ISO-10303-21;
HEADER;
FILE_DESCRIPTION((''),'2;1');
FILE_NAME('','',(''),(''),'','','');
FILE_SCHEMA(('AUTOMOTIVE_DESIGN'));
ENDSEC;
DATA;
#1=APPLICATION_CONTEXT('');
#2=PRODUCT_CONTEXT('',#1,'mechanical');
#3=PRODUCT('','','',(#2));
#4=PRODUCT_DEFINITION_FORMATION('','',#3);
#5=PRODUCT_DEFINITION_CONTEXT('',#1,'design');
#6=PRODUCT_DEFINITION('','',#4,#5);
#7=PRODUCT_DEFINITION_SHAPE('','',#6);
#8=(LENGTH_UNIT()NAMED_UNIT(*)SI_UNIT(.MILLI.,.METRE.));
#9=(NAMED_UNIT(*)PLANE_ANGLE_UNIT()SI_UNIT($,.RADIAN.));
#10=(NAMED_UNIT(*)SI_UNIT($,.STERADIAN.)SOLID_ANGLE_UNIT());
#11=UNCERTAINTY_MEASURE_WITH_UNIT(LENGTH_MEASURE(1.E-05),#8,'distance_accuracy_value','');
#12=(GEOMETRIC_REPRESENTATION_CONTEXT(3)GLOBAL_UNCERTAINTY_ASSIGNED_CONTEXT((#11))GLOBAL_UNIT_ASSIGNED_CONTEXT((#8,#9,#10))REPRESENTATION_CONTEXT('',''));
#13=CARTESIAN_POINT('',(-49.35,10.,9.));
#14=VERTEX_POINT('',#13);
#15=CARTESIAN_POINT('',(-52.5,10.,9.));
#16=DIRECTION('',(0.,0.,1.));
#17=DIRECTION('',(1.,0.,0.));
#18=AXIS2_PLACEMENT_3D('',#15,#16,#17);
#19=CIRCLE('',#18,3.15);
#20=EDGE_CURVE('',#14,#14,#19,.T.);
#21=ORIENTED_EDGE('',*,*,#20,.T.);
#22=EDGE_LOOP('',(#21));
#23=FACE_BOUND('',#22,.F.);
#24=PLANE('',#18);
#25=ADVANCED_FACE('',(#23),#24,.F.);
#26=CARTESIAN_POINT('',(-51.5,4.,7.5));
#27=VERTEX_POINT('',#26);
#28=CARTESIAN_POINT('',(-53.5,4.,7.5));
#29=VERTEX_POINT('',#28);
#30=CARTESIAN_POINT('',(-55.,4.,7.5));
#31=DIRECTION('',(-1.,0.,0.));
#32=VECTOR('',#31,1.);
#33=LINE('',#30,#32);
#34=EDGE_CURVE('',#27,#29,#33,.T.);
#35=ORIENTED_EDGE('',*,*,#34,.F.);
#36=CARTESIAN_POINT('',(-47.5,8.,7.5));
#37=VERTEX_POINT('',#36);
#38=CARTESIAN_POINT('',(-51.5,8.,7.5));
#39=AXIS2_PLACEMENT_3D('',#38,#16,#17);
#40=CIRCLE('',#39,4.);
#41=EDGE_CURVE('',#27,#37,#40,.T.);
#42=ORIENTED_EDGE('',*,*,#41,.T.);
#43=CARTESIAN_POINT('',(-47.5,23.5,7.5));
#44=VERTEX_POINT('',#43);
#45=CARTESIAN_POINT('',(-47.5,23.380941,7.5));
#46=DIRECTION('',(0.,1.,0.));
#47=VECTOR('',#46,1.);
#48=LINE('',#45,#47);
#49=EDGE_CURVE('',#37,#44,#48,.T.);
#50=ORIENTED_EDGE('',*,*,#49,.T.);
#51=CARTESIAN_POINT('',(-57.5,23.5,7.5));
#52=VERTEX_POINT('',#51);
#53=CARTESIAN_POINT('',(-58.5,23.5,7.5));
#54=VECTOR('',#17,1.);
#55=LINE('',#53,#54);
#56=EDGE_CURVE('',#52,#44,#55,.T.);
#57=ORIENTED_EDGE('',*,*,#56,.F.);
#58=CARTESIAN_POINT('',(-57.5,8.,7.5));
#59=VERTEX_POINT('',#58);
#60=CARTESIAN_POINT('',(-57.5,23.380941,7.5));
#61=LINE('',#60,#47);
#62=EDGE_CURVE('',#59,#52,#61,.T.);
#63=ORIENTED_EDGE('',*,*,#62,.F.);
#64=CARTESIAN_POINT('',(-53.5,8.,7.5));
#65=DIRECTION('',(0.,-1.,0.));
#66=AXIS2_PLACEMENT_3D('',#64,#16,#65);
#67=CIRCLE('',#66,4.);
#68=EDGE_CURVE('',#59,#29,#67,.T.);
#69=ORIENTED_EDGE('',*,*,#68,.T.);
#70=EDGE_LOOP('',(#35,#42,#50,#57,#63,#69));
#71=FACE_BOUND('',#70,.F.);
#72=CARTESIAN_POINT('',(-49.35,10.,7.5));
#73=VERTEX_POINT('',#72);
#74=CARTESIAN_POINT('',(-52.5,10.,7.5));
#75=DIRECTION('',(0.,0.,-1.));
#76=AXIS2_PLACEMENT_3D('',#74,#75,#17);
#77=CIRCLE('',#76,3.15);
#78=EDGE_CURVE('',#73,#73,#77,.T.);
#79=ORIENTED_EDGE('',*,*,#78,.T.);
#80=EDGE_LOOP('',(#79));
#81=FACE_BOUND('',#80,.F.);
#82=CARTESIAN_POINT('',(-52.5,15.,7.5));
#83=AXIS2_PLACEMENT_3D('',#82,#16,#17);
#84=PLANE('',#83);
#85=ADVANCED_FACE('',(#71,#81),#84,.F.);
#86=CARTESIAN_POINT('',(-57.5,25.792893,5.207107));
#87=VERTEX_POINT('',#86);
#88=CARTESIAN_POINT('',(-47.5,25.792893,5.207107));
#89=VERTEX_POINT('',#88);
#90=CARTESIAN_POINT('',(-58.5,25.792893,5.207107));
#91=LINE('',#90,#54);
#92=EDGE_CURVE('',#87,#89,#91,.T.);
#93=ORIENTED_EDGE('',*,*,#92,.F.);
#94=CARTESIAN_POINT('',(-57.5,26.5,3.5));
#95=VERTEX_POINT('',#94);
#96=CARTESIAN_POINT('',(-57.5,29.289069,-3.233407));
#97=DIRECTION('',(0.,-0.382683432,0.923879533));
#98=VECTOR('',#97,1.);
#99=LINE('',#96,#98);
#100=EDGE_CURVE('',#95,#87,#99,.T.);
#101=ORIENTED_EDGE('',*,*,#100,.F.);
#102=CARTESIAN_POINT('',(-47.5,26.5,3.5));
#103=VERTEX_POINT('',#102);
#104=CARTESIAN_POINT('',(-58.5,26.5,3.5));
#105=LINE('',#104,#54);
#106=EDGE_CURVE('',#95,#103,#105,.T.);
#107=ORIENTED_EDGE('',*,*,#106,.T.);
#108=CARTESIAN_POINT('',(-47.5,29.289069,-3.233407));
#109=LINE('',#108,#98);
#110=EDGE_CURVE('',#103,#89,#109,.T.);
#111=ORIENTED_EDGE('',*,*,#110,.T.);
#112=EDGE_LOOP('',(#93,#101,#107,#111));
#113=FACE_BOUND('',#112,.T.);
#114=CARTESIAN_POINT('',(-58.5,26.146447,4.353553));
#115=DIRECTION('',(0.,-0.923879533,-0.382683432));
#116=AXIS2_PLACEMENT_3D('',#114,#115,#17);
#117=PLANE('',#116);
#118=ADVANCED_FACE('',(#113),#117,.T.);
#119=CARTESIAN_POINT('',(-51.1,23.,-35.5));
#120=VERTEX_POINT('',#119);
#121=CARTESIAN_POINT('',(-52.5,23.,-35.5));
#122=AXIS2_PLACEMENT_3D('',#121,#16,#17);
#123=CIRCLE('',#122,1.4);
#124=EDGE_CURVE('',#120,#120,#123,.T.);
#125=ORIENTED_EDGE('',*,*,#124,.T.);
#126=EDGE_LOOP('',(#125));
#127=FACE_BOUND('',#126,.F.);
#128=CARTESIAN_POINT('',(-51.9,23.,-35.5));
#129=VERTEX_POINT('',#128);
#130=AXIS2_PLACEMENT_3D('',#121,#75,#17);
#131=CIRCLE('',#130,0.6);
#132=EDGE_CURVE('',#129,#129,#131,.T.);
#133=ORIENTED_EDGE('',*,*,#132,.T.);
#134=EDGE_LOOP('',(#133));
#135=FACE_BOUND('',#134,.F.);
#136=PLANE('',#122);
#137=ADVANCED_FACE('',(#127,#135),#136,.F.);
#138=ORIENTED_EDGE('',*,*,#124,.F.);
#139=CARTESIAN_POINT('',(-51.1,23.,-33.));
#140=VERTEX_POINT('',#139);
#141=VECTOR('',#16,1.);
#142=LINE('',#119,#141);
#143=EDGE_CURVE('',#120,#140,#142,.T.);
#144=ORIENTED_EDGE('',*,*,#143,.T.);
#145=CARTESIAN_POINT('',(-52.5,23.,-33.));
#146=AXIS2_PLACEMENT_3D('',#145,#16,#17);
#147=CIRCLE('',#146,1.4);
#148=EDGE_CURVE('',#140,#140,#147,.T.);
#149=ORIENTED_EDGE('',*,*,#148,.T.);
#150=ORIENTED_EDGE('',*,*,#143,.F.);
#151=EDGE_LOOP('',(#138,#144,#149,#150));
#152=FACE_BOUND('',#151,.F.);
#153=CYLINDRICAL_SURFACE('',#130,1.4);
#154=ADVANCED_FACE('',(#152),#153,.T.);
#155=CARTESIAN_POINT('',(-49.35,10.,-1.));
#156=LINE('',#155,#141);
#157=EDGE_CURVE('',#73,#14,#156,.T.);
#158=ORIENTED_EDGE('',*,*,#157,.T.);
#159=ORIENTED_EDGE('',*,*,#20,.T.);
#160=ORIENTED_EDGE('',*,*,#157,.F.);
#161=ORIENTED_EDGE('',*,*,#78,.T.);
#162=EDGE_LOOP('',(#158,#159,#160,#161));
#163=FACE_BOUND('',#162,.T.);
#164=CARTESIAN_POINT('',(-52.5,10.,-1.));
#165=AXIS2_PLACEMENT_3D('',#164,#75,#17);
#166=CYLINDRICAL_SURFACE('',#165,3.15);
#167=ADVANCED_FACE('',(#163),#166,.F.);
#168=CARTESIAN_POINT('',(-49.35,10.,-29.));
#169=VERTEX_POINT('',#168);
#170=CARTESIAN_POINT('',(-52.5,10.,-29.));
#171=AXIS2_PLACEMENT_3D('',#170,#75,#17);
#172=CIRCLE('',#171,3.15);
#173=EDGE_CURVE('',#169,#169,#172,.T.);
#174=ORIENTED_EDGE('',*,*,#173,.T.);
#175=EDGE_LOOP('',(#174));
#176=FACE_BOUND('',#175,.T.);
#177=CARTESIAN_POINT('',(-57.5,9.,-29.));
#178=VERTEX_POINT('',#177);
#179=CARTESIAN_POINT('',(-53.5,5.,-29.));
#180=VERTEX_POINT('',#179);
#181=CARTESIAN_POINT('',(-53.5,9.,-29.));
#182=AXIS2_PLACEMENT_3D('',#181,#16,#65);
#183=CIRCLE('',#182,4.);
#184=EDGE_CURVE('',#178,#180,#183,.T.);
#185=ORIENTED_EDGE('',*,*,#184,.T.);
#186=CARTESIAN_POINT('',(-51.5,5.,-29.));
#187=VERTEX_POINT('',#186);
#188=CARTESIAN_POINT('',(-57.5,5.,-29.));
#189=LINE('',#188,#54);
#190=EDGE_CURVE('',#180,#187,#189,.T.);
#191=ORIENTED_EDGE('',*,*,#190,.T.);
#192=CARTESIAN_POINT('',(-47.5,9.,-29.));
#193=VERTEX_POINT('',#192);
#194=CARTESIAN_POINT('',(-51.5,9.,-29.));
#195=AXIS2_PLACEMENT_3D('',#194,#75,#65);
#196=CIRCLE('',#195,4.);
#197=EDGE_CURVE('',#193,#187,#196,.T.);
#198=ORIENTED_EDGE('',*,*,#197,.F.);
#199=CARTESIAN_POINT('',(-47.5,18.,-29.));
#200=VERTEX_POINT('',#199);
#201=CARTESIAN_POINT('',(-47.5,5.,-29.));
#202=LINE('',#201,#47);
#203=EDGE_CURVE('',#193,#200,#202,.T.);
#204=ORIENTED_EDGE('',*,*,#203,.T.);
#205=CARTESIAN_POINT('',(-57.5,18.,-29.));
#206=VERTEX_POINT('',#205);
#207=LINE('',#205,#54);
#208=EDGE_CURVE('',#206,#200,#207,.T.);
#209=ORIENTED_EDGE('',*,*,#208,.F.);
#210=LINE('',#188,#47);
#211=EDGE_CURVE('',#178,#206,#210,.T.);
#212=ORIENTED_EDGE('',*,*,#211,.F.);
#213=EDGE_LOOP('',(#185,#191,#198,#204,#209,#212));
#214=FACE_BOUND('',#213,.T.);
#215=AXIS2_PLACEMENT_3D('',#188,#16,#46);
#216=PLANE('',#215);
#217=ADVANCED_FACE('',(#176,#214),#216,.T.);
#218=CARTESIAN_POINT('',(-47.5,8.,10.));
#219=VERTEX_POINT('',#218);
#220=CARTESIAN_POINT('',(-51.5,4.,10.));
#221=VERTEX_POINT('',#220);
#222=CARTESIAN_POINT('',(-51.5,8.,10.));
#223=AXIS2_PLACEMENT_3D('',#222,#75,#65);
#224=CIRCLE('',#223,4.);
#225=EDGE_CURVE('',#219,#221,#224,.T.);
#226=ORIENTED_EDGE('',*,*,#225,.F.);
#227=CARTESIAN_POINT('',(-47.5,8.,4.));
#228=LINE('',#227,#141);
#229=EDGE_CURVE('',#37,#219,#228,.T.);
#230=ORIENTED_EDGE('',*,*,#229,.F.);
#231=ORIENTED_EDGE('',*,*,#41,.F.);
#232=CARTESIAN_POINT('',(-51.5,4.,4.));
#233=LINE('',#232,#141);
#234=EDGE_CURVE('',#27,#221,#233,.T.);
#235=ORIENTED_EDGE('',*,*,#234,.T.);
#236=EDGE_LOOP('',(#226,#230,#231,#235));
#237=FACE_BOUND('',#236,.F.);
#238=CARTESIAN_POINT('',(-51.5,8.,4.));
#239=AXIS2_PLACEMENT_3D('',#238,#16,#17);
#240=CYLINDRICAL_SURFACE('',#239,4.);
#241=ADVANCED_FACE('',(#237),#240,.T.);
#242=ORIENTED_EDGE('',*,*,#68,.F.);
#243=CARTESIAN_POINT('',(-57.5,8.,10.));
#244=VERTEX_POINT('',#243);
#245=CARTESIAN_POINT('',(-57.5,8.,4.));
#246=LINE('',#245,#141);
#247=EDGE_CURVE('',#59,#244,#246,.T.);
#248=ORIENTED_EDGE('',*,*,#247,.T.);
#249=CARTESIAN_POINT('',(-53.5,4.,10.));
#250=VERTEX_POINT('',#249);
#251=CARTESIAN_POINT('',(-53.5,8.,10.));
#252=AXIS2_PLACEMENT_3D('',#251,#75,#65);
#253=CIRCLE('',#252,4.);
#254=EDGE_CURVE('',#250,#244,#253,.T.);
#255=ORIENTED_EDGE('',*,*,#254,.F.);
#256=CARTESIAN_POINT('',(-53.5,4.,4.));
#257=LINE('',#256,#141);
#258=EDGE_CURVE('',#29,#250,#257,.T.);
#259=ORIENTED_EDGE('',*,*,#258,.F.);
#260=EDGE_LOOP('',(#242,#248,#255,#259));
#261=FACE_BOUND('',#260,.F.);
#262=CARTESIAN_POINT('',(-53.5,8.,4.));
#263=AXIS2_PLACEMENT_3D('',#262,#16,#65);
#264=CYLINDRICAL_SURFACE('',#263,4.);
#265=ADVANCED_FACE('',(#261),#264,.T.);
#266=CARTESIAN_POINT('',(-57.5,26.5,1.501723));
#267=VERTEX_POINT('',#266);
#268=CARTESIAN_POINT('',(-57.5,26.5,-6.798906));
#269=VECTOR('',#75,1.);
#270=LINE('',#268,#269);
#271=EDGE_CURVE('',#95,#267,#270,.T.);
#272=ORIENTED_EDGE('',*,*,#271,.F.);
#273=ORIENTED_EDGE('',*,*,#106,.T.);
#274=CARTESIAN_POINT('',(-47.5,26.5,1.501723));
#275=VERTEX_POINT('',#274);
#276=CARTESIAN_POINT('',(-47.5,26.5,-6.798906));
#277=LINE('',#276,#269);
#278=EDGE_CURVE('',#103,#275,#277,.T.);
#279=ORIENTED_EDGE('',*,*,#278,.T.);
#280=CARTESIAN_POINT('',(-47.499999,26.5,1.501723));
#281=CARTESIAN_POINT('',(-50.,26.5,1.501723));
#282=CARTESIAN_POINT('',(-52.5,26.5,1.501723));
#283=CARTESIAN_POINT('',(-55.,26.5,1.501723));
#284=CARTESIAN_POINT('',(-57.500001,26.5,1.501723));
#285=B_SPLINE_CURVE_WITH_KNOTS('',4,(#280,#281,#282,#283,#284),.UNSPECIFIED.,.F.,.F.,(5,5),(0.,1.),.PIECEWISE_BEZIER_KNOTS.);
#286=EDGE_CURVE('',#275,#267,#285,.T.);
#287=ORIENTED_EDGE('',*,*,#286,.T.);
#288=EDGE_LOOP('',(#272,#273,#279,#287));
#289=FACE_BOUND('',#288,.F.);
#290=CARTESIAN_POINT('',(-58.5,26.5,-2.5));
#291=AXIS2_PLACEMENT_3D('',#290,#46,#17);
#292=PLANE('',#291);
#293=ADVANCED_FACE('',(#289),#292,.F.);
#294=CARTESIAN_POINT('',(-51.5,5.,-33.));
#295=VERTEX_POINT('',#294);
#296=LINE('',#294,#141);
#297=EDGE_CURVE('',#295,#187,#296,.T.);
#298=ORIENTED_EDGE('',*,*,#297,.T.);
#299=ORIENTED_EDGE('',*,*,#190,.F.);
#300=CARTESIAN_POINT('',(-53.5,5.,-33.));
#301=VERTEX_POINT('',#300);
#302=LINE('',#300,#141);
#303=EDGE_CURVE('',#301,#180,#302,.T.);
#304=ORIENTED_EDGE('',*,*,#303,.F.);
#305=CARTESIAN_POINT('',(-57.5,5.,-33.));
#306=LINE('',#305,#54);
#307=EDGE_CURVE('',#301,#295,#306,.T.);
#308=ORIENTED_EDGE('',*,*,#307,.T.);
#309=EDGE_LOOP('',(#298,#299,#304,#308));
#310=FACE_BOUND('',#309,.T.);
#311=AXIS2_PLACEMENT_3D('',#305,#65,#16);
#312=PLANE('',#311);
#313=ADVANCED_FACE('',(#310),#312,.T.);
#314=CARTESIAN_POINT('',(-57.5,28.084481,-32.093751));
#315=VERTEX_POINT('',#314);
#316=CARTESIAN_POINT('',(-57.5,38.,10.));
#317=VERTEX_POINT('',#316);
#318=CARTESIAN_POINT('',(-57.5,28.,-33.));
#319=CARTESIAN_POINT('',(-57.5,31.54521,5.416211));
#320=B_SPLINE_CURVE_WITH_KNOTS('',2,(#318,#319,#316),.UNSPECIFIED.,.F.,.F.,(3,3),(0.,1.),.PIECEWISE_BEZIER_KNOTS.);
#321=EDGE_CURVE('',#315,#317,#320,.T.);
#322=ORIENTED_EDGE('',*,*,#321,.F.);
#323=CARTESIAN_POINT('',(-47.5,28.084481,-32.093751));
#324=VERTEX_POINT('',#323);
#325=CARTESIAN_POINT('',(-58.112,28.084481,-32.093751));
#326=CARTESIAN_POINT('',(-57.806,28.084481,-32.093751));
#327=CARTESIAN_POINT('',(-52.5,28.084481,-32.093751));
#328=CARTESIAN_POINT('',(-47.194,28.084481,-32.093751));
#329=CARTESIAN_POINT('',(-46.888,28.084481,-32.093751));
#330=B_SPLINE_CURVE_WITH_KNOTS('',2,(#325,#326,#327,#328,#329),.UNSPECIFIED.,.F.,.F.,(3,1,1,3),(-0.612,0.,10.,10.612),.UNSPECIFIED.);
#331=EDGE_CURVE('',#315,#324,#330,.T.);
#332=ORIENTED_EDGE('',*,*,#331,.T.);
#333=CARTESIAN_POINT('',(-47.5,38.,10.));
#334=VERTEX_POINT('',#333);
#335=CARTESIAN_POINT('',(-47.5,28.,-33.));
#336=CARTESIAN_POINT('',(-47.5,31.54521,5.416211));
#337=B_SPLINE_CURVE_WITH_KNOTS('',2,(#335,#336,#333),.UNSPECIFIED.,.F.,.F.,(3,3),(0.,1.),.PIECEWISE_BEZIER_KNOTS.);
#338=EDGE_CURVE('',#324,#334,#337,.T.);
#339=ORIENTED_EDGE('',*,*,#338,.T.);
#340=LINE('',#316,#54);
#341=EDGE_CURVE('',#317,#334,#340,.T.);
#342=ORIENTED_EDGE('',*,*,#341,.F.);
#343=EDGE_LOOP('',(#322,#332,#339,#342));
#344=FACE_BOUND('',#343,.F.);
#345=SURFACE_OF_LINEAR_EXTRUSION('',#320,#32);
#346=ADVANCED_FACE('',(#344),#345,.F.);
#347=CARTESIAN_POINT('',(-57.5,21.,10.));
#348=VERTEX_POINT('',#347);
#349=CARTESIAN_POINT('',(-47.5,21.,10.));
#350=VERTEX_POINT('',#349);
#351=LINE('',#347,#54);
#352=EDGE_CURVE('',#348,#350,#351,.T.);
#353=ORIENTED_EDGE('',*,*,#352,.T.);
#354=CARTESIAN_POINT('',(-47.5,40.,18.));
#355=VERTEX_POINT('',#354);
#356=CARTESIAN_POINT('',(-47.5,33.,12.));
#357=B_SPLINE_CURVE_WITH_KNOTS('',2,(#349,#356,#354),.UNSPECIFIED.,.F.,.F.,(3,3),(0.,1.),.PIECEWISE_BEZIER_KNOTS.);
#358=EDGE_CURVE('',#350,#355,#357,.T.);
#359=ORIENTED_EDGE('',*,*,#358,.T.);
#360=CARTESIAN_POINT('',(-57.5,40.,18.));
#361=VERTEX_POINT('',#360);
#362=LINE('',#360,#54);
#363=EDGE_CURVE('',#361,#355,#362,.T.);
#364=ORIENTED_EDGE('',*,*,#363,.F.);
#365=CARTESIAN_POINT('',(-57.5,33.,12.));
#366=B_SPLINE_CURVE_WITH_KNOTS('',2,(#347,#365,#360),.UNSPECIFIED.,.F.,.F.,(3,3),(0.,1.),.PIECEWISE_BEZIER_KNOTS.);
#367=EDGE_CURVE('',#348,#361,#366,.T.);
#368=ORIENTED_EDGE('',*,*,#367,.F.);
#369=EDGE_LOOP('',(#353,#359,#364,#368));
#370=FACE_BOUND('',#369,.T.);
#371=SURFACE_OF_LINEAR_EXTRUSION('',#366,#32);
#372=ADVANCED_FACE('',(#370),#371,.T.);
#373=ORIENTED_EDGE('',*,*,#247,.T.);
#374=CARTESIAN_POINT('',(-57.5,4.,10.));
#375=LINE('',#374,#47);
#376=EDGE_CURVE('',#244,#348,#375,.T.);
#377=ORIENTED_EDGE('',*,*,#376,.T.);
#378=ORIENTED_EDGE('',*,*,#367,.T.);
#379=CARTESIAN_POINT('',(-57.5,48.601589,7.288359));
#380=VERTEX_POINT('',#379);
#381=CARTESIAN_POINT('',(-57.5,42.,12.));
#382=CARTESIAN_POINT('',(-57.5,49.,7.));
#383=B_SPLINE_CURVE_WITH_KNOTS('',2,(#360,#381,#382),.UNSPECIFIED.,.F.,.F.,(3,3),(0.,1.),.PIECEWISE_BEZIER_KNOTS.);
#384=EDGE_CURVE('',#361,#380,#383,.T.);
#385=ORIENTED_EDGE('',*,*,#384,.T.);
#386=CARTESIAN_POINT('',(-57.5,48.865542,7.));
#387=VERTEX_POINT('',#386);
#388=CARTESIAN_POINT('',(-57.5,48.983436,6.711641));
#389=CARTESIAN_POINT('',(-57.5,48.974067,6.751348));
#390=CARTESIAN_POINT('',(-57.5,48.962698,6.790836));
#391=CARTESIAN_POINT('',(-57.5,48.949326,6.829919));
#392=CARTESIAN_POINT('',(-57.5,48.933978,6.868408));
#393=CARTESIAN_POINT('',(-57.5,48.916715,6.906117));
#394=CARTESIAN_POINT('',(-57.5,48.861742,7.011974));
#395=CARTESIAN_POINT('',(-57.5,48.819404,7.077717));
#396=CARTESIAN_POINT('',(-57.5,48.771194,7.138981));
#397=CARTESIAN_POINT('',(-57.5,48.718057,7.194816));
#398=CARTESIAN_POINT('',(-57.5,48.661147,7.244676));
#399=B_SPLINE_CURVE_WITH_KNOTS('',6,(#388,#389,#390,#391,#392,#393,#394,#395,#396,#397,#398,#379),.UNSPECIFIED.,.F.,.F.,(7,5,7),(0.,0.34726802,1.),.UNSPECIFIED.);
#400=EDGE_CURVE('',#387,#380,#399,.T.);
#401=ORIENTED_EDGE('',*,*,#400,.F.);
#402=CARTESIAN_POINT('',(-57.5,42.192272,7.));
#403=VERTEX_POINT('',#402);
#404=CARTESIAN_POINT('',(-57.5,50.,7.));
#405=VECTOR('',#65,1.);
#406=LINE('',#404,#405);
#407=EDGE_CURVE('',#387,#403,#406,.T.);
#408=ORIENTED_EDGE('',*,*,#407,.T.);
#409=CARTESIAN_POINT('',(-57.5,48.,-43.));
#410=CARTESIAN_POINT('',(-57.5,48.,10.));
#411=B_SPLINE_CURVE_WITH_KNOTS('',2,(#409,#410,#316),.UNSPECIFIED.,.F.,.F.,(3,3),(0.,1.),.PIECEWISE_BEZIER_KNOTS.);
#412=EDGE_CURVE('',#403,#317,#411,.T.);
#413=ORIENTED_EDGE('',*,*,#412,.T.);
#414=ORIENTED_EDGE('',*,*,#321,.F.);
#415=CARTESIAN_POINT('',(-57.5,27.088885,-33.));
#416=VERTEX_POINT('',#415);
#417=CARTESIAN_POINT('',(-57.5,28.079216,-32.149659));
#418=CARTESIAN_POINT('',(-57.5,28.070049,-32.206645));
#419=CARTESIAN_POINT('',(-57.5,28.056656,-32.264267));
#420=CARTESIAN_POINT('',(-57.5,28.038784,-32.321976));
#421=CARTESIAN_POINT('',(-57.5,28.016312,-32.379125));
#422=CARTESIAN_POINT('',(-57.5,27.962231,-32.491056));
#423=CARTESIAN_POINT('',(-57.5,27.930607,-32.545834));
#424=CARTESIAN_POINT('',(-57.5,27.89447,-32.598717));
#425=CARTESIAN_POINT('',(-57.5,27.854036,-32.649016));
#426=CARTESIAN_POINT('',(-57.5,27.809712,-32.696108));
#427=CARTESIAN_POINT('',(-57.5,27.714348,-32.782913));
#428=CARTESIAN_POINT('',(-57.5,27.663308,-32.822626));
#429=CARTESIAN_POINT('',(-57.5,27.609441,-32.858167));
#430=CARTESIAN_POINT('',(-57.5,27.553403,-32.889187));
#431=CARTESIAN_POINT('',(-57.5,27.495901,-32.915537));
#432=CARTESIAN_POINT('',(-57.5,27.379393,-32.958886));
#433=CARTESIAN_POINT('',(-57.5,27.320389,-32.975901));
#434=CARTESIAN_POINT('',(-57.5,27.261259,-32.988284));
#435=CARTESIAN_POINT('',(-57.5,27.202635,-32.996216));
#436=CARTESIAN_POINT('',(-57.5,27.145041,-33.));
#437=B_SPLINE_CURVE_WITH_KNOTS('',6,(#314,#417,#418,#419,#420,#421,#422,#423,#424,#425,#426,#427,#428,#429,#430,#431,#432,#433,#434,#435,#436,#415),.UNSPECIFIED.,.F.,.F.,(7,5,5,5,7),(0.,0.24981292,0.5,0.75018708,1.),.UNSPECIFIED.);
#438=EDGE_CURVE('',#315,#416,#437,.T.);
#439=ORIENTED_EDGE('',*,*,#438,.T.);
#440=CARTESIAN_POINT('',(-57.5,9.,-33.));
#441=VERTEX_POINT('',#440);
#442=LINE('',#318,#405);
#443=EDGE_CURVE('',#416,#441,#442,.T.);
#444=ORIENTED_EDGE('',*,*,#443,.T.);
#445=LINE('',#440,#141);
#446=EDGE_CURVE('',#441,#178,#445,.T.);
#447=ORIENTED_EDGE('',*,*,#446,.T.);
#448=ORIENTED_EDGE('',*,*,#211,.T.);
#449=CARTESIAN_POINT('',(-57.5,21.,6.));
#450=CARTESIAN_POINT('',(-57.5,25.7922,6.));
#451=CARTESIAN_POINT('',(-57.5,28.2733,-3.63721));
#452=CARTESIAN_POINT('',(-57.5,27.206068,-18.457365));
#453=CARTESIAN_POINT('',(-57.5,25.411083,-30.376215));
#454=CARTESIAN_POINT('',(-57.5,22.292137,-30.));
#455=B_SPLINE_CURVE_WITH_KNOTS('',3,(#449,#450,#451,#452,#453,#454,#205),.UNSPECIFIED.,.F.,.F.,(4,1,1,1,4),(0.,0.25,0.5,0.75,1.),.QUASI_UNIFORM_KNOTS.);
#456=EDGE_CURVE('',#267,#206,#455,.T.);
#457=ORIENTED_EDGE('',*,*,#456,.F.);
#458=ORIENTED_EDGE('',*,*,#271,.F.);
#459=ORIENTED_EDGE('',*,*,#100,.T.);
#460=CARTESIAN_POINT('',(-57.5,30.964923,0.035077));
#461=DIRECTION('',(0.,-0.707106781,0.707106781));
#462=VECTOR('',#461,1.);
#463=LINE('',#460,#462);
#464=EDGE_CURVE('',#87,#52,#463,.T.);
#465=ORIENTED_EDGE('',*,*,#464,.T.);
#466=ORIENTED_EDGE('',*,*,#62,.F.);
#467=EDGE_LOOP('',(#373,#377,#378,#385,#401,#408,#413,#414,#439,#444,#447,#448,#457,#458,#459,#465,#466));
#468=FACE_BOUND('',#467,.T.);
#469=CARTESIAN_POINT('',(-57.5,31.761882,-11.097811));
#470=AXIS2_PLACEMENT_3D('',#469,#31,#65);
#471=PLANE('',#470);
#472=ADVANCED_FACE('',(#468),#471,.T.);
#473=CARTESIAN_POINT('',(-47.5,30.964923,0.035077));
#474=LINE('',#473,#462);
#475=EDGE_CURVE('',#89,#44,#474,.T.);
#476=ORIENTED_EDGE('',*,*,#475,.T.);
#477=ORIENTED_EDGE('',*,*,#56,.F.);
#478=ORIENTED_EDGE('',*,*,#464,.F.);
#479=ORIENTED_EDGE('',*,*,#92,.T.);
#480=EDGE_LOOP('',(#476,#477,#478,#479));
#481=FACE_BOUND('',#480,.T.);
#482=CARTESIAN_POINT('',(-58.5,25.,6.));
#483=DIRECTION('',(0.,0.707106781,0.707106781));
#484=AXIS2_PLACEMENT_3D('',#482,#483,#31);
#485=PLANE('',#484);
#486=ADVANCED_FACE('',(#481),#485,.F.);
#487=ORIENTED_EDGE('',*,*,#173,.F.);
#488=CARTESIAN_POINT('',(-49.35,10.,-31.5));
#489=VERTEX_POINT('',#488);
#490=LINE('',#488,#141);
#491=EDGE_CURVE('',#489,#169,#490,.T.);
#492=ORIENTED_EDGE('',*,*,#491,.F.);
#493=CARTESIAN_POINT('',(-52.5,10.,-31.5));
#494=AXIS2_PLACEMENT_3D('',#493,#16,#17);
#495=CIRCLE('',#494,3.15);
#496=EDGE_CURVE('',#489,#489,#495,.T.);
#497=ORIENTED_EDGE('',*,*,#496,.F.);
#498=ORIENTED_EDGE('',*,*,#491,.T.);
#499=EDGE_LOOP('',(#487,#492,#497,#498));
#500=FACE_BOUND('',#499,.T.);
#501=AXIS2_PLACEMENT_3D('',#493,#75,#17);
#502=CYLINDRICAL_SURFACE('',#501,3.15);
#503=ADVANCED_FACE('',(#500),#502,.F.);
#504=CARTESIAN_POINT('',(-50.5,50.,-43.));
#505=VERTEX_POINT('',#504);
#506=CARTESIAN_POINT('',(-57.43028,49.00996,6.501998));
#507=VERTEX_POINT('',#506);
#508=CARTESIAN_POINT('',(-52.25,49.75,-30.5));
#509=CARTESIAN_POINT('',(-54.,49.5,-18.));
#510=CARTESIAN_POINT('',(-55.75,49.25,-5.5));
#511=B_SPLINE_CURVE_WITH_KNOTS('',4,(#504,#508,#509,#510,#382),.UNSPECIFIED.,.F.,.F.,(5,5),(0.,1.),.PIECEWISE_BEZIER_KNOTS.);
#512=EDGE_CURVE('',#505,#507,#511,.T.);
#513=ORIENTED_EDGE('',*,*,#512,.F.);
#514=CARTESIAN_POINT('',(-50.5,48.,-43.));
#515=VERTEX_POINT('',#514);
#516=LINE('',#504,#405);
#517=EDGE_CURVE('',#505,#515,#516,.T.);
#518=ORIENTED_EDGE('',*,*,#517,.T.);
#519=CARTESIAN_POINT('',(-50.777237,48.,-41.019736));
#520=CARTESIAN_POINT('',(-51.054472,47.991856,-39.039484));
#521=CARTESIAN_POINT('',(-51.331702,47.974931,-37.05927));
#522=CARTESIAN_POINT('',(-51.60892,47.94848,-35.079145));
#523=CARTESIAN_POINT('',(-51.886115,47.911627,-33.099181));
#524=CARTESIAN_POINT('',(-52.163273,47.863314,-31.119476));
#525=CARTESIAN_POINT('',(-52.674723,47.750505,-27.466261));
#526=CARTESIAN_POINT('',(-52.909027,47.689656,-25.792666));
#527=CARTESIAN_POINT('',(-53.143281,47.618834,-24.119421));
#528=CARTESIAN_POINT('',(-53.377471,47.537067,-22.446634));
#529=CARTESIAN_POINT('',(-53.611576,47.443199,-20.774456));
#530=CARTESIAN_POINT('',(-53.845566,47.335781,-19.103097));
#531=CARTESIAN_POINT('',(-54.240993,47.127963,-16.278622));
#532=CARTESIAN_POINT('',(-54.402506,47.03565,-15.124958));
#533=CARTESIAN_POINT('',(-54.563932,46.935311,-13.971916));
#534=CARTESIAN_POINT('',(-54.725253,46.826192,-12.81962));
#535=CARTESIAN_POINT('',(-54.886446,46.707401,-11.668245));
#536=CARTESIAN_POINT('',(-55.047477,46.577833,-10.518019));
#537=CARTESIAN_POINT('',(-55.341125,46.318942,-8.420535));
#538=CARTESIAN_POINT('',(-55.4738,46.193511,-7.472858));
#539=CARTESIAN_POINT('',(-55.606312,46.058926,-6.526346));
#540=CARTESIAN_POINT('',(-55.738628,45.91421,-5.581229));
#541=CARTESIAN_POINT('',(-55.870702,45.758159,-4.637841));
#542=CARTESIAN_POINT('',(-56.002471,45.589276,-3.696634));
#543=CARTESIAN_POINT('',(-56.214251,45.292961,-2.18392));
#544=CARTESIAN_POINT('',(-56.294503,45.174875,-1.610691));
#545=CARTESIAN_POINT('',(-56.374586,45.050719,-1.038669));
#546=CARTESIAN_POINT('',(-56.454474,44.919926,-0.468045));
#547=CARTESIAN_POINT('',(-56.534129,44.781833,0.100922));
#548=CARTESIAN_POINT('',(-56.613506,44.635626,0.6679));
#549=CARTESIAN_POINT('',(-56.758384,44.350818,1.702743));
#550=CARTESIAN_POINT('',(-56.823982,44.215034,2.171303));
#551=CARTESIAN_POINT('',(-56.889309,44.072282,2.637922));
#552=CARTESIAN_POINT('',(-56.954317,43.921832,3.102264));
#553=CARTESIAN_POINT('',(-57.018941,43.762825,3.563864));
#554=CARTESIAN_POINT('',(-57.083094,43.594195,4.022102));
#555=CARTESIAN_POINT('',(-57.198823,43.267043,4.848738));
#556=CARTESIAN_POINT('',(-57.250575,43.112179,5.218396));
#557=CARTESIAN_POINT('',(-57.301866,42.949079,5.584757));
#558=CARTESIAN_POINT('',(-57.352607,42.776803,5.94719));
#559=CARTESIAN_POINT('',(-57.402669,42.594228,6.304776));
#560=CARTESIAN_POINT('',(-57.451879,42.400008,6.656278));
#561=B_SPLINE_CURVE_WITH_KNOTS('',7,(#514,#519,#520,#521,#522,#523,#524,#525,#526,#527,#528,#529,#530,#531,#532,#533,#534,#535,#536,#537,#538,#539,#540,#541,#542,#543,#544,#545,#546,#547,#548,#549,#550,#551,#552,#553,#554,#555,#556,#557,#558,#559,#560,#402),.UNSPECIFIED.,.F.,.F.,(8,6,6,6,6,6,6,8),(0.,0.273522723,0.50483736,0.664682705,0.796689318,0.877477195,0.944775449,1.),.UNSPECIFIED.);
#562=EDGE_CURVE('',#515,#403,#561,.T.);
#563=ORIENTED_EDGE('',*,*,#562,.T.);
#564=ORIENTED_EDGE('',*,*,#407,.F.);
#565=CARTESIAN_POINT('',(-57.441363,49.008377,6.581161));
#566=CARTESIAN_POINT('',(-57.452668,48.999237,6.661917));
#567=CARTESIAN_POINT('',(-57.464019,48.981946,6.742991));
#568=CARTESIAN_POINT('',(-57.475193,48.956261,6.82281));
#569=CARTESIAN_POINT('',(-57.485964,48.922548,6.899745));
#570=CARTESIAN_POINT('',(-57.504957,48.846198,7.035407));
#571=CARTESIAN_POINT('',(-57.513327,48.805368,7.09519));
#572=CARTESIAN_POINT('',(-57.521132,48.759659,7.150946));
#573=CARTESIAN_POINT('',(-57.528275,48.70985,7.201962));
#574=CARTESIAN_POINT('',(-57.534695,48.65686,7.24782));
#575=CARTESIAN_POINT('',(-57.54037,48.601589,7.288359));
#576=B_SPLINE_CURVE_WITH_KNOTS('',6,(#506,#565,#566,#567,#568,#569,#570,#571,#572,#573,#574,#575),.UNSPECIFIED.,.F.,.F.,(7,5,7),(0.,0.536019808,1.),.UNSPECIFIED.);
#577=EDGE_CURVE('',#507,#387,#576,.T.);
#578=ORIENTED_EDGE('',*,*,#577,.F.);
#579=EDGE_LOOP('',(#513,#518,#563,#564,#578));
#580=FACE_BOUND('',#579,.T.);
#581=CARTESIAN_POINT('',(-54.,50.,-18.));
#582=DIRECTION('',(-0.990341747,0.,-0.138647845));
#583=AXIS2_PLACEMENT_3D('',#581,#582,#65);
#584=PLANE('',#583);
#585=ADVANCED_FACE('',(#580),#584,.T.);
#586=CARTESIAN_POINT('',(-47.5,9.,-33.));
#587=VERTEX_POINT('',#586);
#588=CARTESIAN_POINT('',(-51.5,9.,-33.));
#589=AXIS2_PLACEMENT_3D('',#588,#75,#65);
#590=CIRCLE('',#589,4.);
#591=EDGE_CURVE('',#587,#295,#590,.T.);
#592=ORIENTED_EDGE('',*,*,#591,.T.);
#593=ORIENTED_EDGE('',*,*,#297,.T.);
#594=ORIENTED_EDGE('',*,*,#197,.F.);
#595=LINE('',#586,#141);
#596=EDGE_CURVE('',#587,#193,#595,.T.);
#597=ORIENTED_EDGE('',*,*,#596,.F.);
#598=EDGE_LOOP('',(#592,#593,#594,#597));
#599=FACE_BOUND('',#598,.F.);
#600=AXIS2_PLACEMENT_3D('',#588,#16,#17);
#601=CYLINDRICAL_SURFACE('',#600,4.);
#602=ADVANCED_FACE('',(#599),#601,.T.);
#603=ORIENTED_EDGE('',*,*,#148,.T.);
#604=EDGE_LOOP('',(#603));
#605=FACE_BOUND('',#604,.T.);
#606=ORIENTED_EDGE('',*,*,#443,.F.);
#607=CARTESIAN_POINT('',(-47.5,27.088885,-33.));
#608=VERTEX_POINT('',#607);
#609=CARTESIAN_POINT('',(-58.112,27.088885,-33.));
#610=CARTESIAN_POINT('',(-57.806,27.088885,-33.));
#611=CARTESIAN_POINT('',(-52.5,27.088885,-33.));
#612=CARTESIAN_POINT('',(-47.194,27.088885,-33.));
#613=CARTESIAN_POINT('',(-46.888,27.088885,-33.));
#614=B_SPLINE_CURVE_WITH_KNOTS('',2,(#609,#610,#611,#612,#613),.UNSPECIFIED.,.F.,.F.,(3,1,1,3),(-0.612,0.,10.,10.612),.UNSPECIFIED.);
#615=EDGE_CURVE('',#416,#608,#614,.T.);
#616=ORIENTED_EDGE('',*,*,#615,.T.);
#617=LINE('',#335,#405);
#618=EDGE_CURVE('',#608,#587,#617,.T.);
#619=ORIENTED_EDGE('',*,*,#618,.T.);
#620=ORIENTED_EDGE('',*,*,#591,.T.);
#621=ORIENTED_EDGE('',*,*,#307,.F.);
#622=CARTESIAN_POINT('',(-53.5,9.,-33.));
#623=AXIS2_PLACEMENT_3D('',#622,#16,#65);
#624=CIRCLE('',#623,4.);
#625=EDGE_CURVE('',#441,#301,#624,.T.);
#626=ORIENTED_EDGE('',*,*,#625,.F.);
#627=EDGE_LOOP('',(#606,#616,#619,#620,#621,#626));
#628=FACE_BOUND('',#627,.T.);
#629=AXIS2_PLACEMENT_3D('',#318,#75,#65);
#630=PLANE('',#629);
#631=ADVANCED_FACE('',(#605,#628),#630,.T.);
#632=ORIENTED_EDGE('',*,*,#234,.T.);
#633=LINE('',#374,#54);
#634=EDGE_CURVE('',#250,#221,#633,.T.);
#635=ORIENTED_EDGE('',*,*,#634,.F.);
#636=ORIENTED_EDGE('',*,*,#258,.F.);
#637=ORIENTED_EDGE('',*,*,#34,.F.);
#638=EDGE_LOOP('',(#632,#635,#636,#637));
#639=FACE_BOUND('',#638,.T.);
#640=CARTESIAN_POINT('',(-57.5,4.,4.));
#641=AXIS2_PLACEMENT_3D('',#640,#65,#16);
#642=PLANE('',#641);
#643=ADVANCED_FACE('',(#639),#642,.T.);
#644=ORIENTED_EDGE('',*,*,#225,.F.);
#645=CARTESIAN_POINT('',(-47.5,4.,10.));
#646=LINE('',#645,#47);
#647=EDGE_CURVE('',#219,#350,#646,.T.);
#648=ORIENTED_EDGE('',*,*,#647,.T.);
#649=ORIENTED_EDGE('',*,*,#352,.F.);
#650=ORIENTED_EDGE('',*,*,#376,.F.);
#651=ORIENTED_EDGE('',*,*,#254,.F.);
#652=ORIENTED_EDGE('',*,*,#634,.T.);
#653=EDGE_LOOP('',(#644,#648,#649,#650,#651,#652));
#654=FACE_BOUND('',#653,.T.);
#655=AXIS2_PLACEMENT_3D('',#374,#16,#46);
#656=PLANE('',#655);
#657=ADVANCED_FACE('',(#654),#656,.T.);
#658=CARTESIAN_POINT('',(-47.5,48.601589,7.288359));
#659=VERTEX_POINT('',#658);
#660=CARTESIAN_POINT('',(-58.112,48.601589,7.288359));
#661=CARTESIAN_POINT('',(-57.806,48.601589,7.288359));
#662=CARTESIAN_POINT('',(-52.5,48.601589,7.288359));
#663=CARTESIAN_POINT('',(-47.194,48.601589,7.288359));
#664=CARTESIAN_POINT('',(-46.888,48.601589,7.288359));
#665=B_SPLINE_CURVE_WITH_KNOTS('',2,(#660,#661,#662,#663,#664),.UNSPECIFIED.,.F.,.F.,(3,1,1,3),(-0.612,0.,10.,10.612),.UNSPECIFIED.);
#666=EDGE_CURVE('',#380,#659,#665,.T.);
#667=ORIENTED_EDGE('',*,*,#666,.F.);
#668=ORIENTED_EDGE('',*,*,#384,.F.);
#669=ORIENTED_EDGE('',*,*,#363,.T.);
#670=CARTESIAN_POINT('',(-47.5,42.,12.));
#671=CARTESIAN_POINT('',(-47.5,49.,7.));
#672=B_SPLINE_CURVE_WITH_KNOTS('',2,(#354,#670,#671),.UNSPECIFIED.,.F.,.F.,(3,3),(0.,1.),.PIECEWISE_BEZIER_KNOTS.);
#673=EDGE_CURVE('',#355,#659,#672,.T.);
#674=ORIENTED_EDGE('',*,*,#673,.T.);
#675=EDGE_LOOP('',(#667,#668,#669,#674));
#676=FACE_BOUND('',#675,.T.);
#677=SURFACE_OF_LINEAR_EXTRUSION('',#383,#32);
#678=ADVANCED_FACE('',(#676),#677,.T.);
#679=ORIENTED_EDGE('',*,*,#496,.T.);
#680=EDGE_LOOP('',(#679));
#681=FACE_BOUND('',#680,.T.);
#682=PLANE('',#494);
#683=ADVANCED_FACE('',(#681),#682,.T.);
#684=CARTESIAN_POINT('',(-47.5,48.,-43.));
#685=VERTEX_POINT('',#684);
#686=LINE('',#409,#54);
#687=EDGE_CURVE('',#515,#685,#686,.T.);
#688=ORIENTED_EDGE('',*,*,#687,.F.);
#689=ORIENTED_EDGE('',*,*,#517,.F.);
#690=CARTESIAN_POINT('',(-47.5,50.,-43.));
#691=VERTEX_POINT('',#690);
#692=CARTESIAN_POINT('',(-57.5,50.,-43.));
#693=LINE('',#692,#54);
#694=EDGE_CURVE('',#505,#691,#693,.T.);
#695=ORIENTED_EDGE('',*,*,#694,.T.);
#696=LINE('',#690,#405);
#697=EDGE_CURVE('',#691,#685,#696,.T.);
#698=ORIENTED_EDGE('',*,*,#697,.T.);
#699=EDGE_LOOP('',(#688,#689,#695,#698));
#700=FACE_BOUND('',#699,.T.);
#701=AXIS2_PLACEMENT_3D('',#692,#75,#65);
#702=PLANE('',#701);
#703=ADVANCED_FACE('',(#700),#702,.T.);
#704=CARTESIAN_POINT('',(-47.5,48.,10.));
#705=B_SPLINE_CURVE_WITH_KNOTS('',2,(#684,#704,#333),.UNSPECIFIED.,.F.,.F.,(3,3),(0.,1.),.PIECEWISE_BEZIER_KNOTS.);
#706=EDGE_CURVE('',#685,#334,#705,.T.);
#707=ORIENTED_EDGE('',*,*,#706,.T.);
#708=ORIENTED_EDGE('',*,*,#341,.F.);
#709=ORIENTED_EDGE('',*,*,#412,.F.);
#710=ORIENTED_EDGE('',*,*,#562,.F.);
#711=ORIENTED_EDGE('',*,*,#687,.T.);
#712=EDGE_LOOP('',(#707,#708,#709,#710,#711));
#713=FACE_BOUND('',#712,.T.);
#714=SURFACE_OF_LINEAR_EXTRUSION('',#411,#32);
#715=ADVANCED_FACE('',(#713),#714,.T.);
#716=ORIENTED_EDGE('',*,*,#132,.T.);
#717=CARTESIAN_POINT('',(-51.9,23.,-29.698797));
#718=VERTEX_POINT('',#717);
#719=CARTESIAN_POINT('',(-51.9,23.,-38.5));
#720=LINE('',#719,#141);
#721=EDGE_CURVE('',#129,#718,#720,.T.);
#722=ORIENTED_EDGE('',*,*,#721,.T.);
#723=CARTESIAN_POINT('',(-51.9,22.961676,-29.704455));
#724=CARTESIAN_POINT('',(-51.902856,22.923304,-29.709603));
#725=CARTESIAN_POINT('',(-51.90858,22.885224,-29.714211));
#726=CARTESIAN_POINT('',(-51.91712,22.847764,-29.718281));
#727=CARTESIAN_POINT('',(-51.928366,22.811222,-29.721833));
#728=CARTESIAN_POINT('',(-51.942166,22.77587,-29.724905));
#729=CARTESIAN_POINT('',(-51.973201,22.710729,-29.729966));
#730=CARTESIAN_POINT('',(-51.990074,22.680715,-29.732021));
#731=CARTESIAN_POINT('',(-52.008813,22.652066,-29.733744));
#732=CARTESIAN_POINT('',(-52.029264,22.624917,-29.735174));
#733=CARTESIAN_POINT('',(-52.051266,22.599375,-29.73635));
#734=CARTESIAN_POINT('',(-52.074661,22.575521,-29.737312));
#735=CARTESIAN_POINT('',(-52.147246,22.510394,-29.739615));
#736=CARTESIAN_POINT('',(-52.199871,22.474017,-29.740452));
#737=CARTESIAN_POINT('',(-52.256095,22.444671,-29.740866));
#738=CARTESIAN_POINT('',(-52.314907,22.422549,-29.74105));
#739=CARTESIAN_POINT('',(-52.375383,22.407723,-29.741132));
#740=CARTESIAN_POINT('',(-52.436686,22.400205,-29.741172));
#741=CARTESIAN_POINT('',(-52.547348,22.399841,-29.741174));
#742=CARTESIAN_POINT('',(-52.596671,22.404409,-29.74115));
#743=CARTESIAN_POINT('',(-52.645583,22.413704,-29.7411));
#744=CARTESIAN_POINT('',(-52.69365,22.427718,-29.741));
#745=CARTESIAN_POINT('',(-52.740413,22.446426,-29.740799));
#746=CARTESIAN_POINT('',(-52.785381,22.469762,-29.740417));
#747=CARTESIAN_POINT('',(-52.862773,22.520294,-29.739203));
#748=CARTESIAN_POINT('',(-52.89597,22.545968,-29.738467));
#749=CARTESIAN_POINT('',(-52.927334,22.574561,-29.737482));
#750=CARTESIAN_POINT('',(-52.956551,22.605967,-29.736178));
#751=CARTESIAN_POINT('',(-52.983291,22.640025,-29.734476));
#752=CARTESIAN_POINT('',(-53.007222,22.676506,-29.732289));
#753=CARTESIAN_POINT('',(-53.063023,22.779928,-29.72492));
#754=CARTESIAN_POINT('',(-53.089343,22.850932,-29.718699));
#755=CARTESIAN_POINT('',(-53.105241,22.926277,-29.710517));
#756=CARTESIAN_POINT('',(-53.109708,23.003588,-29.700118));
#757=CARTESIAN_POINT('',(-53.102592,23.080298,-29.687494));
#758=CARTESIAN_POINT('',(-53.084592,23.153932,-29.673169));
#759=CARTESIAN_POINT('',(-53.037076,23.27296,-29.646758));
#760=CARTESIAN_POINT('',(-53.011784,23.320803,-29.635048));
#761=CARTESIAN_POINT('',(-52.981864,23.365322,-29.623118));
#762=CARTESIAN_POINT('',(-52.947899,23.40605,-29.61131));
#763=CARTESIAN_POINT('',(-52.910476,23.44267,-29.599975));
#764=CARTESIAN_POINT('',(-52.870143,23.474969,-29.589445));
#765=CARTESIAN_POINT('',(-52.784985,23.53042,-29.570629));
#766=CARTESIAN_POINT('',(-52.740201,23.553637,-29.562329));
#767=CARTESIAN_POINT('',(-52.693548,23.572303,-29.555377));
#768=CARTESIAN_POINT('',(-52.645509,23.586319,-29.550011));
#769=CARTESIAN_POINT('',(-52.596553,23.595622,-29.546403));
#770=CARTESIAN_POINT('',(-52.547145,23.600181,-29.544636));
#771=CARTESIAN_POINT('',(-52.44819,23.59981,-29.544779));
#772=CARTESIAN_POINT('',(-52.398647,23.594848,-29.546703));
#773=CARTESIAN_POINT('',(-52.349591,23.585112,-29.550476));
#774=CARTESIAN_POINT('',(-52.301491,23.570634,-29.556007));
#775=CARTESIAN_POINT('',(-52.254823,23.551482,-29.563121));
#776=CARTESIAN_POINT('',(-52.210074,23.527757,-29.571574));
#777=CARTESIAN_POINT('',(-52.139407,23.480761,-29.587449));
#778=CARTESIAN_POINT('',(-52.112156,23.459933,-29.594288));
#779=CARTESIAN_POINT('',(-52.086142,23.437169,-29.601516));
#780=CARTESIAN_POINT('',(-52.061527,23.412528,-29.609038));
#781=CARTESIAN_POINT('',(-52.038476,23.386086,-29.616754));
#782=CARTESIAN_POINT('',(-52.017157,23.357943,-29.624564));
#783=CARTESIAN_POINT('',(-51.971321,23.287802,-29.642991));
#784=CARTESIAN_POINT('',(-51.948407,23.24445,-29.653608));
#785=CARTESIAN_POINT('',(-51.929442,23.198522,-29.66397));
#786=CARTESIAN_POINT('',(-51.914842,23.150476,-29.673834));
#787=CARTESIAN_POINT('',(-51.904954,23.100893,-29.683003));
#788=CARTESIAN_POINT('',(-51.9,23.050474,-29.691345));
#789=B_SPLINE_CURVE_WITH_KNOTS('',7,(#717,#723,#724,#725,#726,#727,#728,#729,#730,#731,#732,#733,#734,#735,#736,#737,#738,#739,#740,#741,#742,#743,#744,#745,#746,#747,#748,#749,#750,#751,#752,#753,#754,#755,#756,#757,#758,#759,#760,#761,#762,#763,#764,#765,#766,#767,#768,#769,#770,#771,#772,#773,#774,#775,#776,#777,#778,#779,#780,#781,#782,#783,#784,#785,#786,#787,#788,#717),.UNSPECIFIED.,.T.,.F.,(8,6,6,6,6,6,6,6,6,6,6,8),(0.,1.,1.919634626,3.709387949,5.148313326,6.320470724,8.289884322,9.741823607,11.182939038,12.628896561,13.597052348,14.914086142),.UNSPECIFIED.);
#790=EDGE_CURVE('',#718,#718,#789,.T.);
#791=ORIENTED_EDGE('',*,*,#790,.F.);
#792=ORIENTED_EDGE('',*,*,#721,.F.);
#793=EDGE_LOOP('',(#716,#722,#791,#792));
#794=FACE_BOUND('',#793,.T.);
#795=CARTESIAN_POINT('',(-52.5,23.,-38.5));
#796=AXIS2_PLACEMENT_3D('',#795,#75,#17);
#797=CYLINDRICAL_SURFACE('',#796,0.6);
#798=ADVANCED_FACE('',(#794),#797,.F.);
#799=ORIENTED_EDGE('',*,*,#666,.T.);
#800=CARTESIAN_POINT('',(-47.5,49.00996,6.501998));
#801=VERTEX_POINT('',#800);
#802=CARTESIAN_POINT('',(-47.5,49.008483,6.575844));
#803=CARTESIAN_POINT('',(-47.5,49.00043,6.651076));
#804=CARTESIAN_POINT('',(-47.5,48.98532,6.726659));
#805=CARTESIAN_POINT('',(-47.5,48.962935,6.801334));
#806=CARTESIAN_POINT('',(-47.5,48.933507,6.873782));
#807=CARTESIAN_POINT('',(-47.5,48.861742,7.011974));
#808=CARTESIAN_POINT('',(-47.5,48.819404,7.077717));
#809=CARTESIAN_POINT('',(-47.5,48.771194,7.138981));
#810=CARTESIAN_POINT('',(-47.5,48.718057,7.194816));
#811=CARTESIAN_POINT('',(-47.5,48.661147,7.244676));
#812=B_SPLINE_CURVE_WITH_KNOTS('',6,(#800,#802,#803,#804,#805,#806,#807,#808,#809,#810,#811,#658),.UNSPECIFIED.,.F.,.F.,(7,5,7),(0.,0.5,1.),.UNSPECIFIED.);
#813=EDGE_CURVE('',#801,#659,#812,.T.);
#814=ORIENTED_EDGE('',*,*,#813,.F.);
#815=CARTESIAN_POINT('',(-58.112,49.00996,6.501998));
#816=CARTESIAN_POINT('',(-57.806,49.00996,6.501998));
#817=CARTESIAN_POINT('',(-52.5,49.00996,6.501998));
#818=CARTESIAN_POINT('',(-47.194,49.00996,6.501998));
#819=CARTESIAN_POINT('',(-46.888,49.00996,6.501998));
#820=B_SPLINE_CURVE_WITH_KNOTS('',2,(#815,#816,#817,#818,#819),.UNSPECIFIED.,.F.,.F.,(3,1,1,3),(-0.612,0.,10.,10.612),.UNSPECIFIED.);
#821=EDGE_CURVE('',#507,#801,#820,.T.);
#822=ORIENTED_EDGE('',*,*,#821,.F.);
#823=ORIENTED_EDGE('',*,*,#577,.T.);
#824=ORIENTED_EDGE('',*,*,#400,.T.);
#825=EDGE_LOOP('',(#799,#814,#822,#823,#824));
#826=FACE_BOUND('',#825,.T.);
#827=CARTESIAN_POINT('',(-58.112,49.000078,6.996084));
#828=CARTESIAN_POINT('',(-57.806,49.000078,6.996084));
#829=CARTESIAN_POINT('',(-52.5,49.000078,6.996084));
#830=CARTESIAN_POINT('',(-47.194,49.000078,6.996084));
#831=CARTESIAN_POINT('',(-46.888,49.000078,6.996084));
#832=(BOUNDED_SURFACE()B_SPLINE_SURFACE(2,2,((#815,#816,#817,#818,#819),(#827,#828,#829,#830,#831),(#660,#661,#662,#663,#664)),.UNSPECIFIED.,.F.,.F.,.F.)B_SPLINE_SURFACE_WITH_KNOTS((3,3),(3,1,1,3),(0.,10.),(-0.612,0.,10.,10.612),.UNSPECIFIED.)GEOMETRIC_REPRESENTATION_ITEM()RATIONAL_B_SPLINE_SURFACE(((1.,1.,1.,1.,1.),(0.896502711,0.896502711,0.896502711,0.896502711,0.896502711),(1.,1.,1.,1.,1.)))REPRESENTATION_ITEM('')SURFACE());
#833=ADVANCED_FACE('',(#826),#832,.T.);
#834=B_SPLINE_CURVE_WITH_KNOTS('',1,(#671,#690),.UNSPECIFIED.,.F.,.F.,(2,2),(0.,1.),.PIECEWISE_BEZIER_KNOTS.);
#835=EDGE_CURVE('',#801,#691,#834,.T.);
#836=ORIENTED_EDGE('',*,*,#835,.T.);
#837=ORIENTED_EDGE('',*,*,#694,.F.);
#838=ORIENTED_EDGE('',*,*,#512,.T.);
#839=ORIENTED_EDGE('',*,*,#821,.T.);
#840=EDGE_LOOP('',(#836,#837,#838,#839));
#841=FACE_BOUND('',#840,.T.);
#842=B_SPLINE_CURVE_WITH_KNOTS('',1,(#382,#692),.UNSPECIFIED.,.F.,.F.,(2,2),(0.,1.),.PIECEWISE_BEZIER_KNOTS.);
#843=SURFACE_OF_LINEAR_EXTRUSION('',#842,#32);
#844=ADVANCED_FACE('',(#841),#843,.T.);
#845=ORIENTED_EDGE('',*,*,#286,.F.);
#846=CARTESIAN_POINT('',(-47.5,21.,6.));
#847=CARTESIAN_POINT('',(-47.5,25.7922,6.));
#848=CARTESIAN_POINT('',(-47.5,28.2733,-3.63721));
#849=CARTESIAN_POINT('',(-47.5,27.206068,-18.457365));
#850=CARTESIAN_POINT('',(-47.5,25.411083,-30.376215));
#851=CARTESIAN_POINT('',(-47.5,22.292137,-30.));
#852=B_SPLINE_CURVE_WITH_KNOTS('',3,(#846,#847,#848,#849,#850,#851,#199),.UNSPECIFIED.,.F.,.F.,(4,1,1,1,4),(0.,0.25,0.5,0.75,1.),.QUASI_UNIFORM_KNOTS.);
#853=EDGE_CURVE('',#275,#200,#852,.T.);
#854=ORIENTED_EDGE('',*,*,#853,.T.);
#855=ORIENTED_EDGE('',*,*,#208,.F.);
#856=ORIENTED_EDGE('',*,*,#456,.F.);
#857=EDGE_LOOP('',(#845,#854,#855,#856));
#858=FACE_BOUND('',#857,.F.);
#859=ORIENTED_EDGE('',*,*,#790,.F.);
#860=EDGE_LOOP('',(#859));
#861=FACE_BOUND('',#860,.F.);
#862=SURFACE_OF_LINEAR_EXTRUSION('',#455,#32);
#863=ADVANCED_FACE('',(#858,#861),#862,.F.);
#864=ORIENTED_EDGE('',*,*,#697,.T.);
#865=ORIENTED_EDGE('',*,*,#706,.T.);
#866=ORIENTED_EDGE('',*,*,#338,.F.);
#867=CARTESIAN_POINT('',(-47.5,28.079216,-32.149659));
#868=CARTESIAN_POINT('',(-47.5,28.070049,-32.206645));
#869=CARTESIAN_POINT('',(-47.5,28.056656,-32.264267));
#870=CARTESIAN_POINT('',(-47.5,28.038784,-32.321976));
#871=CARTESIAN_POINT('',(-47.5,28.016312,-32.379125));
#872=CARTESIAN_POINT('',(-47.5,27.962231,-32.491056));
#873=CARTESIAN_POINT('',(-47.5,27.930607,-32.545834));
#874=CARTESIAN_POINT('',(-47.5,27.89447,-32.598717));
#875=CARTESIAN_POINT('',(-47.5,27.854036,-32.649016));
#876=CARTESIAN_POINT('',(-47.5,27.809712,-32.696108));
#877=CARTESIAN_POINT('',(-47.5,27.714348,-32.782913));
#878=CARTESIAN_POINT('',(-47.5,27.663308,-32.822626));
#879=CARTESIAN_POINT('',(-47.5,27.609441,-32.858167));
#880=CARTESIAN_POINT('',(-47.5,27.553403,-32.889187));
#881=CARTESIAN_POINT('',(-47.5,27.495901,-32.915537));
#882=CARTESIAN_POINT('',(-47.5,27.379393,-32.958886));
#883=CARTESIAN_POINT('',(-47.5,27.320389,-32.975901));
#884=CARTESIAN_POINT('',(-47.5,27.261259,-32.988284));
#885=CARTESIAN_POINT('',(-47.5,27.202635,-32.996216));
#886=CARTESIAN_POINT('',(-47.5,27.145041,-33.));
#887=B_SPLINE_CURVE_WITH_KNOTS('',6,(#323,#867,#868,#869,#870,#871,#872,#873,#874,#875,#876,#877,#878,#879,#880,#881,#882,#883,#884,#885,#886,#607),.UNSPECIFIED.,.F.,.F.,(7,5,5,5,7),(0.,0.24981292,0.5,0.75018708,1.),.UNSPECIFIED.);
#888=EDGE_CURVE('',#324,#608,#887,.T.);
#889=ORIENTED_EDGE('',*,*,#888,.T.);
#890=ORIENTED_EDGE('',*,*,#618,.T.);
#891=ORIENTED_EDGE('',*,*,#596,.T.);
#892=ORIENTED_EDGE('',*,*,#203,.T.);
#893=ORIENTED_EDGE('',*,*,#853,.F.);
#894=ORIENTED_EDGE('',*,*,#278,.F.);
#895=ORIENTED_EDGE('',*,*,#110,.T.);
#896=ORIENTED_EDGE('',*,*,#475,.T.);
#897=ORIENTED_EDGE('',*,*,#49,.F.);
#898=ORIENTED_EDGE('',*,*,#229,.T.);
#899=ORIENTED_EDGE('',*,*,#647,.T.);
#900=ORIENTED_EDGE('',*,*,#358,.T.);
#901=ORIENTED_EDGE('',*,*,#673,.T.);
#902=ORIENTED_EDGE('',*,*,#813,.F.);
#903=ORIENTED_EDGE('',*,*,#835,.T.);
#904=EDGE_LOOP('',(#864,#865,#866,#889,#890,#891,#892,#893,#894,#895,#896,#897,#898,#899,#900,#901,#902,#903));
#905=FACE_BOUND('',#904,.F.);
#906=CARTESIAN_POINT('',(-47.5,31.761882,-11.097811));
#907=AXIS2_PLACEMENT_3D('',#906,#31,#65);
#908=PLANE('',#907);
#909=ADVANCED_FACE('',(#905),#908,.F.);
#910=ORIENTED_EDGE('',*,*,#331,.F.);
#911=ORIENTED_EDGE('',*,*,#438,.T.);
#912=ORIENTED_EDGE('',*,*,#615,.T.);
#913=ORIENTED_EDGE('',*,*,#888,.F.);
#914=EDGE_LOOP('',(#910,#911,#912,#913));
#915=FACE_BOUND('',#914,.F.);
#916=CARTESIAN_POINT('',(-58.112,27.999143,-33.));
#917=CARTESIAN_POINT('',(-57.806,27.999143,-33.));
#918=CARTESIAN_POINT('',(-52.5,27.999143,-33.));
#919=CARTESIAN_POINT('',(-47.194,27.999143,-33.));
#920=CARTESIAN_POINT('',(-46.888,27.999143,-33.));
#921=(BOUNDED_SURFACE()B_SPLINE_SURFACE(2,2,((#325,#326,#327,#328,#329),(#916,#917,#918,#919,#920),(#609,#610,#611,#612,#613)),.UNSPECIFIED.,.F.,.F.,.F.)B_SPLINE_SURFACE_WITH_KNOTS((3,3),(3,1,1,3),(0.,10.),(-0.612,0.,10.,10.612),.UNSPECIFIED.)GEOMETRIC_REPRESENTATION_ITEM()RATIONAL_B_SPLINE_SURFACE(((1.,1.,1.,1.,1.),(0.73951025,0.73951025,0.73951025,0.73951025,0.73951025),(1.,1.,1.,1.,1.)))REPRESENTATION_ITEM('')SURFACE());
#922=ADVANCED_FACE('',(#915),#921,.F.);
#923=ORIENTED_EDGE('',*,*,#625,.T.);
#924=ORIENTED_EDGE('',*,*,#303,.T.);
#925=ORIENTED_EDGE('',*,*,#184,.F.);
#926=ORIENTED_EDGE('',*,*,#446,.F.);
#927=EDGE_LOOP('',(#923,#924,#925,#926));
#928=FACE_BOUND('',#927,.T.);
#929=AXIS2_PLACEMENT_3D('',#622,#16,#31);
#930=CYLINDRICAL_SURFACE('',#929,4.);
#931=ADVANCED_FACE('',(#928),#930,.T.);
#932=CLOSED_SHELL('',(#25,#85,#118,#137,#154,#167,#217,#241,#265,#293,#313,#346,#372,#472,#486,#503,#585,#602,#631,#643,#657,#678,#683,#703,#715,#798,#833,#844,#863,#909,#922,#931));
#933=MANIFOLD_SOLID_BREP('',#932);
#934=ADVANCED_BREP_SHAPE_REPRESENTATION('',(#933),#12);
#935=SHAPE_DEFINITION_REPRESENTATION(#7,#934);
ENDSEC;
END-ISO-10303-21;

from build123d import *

# Parameters (mm, degrees)
CYLINDER092_R     = 3.15
CYLINDER092_DEPTH = 10
CYLINDER096_R     = 0.6
CYLINDER096_DEPTH = 20
BOX047_W          = 12
BOX047_H          = 23
BOX047_DEPTH      = 10
CHAMFER006_SIZE   = 3
CHAMFER007_SIZE   = 1
CYLINDER093_R     = 3.15
CYLINDER093_DEPTH = 10
PAD008_DEPTH      = 10
CHAMFER011_SIZE2  = 50
CHAMFER011_SIZE   = 7
FILLET063_R       = 1
FILLET064_R       = 1
FILLET062_R       = 4
CYLINDER120_R     = 1.4
CYLINDER120_DEPTH = 2.5
FILLET065_R       = 4


with BuildPart() as zylinder092:
    # Cylinder092 → Cylinder092 (new body)
    with BuildSketch(Plane(origin=(-52.5, 10, -1), x_dir=(1, 0, 0), z_dir=(0, 0, 1))):
        Circle(CYLINDER092_R)
    extrude(amount=CYLINDER092_DEPTH)


with BuildPart() as zylinder096:
    # Cylinder096 → Cylinder096 (new body)
    with BuildSketch(Plane(origin=(-52.5, 23, -38.5), x_dir=(1, 0, 0), z_dir=(0, 0, 1))):
        Circle(CYLINDER096_R)
    extrude(amount=CYLINDER096_DEPTH)


with BuildPart() as chamfer007:
    # Box047 → Box047 (new body)
    with BuildSketch(Plane(origin=(-58.5, 3.5, -2.5), x_dir=(1, 0, 0), z_dir=(0, 0, 1))):
        with Locations((6, 11.5)):
            Rectangle(BOX047_W, BOX047_H)
    extrude(amount=BOX047_DEPTH)

    # Chamfer006
    chamfer006_edges = [chamfer007.edges().sort_by_distance(p)[0] for p in [
        (-52.5, 26.5, 7.5),
    ]]
    chamfer(chamfer006_edges, length=CHAMFER006_SIZE)

    # Chamfer007
    chamfer007_edges = [chamfer007.edges().sort_by_distance(p)[0] for p in [
        (-52.5, 26.5, 4.5),
    ]]
    chamfer(chamfer007_edges, length=CHAMFER007_SIZE)


with BuildPart() as fusion072:
    # Cylinder093 → Cylinder093 (new body)
    with BuildSketch(Plane(origin=(-52.5, 10, -31.5), x_dir=(1, 0, 0), z_dir=(0, 0, 1))):
        Circle(CYLINDER093_R)
    extrude(amount=CYLINDER093_DEPTH)

    # Fusion072: union Zylinder092, Zylinder096, Chamfer007
    add(zylinder092.part)
    add(zylinder096.part)
    add(chamfer007.part)


with BuildPart() as fillet062:
    # Sketch008 → Pad008 (new body)
    with BuildSketch(Plane.YZ):
        with BuildLine():
            Line((16, 4), (4, 4))
            Line((4, 4), (4, 10))
            Line((4, 10), (21, 10))
            add(Edge.make_bspline(
                [(21, 10), (33, 12), (40, 18)],
                knots=[0, 0, 0, 1, 1, 1], degree=2))
            add(Edge.make_bspline(
                [(40, 18), (42, 12), (49, 7)],
                knots=[0, 0, 0, 1, 1, 1], degree=2))
            add(Edge.make_bspline(
                [(49, 7), (50, -43)],
                knots=[0, 0, 1, 1], degree=1))
            Line((50, -43), (48, -43))
            add(Edge.make_bspline(
                [(48, -43), (48, 10), (38, 10)],
                knots=[0, 0, 0, 1, 1, 1], degree=2))
            add(Edge.make_bspline(
                [(28, -33), (31.54521, 5.416211), (38, 10)],
                knots=[0, 0, 0, 1, 1, 1], degree=2))
            Line((28, -33), (5, -33))
            Line((5, -33), (5, -29))
            Line((5, -29), (18, -29))
            add(Edge.make_bspline(
                [(21, 6), (25.7922, 6), (28.2733, -3.63721), (27.206068, -18.457365), (25.411083, -30.376215), (22.292137, -30), (18, -29)],
                knots=[0, 0, 0, 0, 0.25, 0.5, 0.75, 1, 1, 1, 1], degree=3))
            Line((21, 6), (16, 4))
        make_face()
    extrude(amount=PAD008_DEPTH)

    # Chamfer011
    chamfer011_edges = [fillet062.edges().sort_by_distance(p)[0] for p in [
        (0, 49, -43),
    ]]
    chamfer011_side = fillet062.faces().sort_by_distance((5, 49, -43))[0]
    chamfer(chamfer011_edges, length=CHAMFER011_SIZE, length2=CHAMFER011_SIZE2, reference=chamfer011_side)


with BuildPart() as fillet062_1:
    # Chamfer011 placement: moved
    add(fillet062.part.moved(Location((11.5, 0, 0))))

    # Fillet063
    fillet063_edges = [fillet062_1.edges().sort_by_distance(p)[0] for p in [
        (16.5, 49, 7),
    ]]
    fillet(fillet063_edges, radius=FILLET063_R)

    # Fillet064
    fillet064_edges = [fillet062_1.edges().sort_by_distance(p)[0] for p in [
        (16.5, 28, -33),
    ]]
    fillet(fillet064_edges, radius=FILLET064_R)

    # Fillet062
    fillet062_edges = [fillet062_1.edges().sort_by_distance(p)[0] for p in [
        (21.5, 4, 7),
        (11.5, 4, 7),
    ]]
    fillet(fillet062_edges, radius=FILLET062_R)


with BuildPart() as fillet065:
    # Cylinder120 → Cylinder120 (new body)
    with BuildSketch(Plane(origin=(16.5, 23, -35.5), x_dir=(1, 0, 0), z_dir=(0, 0, 1))):
        Circle(CYLINDER120_R)
    extrude(amount=CYLINDER120_DEPTH)

    # Fusion080: union Fillet062
    add(fillet062_1.part)


with BuildPart() as fillet065_1:
    # Fusion080 placement: moved
    add(fillet065.part.moved(Location((-69, 0, 0))))

    # Cut060: cut Fusion072
    add(fusion072.part, mode=Mode.SUBTRACT)

    # Fillet065
    fillet065_edges = [fillet065_1.edges().sort_by_distance(p)[0] for p in [
        (-47.5, 5, -31),
        (-57.5, 5, -31),
    ]]
    fillet(fillet065_edges, radius=FILLET065_R)


solid = fillet065_1.part
